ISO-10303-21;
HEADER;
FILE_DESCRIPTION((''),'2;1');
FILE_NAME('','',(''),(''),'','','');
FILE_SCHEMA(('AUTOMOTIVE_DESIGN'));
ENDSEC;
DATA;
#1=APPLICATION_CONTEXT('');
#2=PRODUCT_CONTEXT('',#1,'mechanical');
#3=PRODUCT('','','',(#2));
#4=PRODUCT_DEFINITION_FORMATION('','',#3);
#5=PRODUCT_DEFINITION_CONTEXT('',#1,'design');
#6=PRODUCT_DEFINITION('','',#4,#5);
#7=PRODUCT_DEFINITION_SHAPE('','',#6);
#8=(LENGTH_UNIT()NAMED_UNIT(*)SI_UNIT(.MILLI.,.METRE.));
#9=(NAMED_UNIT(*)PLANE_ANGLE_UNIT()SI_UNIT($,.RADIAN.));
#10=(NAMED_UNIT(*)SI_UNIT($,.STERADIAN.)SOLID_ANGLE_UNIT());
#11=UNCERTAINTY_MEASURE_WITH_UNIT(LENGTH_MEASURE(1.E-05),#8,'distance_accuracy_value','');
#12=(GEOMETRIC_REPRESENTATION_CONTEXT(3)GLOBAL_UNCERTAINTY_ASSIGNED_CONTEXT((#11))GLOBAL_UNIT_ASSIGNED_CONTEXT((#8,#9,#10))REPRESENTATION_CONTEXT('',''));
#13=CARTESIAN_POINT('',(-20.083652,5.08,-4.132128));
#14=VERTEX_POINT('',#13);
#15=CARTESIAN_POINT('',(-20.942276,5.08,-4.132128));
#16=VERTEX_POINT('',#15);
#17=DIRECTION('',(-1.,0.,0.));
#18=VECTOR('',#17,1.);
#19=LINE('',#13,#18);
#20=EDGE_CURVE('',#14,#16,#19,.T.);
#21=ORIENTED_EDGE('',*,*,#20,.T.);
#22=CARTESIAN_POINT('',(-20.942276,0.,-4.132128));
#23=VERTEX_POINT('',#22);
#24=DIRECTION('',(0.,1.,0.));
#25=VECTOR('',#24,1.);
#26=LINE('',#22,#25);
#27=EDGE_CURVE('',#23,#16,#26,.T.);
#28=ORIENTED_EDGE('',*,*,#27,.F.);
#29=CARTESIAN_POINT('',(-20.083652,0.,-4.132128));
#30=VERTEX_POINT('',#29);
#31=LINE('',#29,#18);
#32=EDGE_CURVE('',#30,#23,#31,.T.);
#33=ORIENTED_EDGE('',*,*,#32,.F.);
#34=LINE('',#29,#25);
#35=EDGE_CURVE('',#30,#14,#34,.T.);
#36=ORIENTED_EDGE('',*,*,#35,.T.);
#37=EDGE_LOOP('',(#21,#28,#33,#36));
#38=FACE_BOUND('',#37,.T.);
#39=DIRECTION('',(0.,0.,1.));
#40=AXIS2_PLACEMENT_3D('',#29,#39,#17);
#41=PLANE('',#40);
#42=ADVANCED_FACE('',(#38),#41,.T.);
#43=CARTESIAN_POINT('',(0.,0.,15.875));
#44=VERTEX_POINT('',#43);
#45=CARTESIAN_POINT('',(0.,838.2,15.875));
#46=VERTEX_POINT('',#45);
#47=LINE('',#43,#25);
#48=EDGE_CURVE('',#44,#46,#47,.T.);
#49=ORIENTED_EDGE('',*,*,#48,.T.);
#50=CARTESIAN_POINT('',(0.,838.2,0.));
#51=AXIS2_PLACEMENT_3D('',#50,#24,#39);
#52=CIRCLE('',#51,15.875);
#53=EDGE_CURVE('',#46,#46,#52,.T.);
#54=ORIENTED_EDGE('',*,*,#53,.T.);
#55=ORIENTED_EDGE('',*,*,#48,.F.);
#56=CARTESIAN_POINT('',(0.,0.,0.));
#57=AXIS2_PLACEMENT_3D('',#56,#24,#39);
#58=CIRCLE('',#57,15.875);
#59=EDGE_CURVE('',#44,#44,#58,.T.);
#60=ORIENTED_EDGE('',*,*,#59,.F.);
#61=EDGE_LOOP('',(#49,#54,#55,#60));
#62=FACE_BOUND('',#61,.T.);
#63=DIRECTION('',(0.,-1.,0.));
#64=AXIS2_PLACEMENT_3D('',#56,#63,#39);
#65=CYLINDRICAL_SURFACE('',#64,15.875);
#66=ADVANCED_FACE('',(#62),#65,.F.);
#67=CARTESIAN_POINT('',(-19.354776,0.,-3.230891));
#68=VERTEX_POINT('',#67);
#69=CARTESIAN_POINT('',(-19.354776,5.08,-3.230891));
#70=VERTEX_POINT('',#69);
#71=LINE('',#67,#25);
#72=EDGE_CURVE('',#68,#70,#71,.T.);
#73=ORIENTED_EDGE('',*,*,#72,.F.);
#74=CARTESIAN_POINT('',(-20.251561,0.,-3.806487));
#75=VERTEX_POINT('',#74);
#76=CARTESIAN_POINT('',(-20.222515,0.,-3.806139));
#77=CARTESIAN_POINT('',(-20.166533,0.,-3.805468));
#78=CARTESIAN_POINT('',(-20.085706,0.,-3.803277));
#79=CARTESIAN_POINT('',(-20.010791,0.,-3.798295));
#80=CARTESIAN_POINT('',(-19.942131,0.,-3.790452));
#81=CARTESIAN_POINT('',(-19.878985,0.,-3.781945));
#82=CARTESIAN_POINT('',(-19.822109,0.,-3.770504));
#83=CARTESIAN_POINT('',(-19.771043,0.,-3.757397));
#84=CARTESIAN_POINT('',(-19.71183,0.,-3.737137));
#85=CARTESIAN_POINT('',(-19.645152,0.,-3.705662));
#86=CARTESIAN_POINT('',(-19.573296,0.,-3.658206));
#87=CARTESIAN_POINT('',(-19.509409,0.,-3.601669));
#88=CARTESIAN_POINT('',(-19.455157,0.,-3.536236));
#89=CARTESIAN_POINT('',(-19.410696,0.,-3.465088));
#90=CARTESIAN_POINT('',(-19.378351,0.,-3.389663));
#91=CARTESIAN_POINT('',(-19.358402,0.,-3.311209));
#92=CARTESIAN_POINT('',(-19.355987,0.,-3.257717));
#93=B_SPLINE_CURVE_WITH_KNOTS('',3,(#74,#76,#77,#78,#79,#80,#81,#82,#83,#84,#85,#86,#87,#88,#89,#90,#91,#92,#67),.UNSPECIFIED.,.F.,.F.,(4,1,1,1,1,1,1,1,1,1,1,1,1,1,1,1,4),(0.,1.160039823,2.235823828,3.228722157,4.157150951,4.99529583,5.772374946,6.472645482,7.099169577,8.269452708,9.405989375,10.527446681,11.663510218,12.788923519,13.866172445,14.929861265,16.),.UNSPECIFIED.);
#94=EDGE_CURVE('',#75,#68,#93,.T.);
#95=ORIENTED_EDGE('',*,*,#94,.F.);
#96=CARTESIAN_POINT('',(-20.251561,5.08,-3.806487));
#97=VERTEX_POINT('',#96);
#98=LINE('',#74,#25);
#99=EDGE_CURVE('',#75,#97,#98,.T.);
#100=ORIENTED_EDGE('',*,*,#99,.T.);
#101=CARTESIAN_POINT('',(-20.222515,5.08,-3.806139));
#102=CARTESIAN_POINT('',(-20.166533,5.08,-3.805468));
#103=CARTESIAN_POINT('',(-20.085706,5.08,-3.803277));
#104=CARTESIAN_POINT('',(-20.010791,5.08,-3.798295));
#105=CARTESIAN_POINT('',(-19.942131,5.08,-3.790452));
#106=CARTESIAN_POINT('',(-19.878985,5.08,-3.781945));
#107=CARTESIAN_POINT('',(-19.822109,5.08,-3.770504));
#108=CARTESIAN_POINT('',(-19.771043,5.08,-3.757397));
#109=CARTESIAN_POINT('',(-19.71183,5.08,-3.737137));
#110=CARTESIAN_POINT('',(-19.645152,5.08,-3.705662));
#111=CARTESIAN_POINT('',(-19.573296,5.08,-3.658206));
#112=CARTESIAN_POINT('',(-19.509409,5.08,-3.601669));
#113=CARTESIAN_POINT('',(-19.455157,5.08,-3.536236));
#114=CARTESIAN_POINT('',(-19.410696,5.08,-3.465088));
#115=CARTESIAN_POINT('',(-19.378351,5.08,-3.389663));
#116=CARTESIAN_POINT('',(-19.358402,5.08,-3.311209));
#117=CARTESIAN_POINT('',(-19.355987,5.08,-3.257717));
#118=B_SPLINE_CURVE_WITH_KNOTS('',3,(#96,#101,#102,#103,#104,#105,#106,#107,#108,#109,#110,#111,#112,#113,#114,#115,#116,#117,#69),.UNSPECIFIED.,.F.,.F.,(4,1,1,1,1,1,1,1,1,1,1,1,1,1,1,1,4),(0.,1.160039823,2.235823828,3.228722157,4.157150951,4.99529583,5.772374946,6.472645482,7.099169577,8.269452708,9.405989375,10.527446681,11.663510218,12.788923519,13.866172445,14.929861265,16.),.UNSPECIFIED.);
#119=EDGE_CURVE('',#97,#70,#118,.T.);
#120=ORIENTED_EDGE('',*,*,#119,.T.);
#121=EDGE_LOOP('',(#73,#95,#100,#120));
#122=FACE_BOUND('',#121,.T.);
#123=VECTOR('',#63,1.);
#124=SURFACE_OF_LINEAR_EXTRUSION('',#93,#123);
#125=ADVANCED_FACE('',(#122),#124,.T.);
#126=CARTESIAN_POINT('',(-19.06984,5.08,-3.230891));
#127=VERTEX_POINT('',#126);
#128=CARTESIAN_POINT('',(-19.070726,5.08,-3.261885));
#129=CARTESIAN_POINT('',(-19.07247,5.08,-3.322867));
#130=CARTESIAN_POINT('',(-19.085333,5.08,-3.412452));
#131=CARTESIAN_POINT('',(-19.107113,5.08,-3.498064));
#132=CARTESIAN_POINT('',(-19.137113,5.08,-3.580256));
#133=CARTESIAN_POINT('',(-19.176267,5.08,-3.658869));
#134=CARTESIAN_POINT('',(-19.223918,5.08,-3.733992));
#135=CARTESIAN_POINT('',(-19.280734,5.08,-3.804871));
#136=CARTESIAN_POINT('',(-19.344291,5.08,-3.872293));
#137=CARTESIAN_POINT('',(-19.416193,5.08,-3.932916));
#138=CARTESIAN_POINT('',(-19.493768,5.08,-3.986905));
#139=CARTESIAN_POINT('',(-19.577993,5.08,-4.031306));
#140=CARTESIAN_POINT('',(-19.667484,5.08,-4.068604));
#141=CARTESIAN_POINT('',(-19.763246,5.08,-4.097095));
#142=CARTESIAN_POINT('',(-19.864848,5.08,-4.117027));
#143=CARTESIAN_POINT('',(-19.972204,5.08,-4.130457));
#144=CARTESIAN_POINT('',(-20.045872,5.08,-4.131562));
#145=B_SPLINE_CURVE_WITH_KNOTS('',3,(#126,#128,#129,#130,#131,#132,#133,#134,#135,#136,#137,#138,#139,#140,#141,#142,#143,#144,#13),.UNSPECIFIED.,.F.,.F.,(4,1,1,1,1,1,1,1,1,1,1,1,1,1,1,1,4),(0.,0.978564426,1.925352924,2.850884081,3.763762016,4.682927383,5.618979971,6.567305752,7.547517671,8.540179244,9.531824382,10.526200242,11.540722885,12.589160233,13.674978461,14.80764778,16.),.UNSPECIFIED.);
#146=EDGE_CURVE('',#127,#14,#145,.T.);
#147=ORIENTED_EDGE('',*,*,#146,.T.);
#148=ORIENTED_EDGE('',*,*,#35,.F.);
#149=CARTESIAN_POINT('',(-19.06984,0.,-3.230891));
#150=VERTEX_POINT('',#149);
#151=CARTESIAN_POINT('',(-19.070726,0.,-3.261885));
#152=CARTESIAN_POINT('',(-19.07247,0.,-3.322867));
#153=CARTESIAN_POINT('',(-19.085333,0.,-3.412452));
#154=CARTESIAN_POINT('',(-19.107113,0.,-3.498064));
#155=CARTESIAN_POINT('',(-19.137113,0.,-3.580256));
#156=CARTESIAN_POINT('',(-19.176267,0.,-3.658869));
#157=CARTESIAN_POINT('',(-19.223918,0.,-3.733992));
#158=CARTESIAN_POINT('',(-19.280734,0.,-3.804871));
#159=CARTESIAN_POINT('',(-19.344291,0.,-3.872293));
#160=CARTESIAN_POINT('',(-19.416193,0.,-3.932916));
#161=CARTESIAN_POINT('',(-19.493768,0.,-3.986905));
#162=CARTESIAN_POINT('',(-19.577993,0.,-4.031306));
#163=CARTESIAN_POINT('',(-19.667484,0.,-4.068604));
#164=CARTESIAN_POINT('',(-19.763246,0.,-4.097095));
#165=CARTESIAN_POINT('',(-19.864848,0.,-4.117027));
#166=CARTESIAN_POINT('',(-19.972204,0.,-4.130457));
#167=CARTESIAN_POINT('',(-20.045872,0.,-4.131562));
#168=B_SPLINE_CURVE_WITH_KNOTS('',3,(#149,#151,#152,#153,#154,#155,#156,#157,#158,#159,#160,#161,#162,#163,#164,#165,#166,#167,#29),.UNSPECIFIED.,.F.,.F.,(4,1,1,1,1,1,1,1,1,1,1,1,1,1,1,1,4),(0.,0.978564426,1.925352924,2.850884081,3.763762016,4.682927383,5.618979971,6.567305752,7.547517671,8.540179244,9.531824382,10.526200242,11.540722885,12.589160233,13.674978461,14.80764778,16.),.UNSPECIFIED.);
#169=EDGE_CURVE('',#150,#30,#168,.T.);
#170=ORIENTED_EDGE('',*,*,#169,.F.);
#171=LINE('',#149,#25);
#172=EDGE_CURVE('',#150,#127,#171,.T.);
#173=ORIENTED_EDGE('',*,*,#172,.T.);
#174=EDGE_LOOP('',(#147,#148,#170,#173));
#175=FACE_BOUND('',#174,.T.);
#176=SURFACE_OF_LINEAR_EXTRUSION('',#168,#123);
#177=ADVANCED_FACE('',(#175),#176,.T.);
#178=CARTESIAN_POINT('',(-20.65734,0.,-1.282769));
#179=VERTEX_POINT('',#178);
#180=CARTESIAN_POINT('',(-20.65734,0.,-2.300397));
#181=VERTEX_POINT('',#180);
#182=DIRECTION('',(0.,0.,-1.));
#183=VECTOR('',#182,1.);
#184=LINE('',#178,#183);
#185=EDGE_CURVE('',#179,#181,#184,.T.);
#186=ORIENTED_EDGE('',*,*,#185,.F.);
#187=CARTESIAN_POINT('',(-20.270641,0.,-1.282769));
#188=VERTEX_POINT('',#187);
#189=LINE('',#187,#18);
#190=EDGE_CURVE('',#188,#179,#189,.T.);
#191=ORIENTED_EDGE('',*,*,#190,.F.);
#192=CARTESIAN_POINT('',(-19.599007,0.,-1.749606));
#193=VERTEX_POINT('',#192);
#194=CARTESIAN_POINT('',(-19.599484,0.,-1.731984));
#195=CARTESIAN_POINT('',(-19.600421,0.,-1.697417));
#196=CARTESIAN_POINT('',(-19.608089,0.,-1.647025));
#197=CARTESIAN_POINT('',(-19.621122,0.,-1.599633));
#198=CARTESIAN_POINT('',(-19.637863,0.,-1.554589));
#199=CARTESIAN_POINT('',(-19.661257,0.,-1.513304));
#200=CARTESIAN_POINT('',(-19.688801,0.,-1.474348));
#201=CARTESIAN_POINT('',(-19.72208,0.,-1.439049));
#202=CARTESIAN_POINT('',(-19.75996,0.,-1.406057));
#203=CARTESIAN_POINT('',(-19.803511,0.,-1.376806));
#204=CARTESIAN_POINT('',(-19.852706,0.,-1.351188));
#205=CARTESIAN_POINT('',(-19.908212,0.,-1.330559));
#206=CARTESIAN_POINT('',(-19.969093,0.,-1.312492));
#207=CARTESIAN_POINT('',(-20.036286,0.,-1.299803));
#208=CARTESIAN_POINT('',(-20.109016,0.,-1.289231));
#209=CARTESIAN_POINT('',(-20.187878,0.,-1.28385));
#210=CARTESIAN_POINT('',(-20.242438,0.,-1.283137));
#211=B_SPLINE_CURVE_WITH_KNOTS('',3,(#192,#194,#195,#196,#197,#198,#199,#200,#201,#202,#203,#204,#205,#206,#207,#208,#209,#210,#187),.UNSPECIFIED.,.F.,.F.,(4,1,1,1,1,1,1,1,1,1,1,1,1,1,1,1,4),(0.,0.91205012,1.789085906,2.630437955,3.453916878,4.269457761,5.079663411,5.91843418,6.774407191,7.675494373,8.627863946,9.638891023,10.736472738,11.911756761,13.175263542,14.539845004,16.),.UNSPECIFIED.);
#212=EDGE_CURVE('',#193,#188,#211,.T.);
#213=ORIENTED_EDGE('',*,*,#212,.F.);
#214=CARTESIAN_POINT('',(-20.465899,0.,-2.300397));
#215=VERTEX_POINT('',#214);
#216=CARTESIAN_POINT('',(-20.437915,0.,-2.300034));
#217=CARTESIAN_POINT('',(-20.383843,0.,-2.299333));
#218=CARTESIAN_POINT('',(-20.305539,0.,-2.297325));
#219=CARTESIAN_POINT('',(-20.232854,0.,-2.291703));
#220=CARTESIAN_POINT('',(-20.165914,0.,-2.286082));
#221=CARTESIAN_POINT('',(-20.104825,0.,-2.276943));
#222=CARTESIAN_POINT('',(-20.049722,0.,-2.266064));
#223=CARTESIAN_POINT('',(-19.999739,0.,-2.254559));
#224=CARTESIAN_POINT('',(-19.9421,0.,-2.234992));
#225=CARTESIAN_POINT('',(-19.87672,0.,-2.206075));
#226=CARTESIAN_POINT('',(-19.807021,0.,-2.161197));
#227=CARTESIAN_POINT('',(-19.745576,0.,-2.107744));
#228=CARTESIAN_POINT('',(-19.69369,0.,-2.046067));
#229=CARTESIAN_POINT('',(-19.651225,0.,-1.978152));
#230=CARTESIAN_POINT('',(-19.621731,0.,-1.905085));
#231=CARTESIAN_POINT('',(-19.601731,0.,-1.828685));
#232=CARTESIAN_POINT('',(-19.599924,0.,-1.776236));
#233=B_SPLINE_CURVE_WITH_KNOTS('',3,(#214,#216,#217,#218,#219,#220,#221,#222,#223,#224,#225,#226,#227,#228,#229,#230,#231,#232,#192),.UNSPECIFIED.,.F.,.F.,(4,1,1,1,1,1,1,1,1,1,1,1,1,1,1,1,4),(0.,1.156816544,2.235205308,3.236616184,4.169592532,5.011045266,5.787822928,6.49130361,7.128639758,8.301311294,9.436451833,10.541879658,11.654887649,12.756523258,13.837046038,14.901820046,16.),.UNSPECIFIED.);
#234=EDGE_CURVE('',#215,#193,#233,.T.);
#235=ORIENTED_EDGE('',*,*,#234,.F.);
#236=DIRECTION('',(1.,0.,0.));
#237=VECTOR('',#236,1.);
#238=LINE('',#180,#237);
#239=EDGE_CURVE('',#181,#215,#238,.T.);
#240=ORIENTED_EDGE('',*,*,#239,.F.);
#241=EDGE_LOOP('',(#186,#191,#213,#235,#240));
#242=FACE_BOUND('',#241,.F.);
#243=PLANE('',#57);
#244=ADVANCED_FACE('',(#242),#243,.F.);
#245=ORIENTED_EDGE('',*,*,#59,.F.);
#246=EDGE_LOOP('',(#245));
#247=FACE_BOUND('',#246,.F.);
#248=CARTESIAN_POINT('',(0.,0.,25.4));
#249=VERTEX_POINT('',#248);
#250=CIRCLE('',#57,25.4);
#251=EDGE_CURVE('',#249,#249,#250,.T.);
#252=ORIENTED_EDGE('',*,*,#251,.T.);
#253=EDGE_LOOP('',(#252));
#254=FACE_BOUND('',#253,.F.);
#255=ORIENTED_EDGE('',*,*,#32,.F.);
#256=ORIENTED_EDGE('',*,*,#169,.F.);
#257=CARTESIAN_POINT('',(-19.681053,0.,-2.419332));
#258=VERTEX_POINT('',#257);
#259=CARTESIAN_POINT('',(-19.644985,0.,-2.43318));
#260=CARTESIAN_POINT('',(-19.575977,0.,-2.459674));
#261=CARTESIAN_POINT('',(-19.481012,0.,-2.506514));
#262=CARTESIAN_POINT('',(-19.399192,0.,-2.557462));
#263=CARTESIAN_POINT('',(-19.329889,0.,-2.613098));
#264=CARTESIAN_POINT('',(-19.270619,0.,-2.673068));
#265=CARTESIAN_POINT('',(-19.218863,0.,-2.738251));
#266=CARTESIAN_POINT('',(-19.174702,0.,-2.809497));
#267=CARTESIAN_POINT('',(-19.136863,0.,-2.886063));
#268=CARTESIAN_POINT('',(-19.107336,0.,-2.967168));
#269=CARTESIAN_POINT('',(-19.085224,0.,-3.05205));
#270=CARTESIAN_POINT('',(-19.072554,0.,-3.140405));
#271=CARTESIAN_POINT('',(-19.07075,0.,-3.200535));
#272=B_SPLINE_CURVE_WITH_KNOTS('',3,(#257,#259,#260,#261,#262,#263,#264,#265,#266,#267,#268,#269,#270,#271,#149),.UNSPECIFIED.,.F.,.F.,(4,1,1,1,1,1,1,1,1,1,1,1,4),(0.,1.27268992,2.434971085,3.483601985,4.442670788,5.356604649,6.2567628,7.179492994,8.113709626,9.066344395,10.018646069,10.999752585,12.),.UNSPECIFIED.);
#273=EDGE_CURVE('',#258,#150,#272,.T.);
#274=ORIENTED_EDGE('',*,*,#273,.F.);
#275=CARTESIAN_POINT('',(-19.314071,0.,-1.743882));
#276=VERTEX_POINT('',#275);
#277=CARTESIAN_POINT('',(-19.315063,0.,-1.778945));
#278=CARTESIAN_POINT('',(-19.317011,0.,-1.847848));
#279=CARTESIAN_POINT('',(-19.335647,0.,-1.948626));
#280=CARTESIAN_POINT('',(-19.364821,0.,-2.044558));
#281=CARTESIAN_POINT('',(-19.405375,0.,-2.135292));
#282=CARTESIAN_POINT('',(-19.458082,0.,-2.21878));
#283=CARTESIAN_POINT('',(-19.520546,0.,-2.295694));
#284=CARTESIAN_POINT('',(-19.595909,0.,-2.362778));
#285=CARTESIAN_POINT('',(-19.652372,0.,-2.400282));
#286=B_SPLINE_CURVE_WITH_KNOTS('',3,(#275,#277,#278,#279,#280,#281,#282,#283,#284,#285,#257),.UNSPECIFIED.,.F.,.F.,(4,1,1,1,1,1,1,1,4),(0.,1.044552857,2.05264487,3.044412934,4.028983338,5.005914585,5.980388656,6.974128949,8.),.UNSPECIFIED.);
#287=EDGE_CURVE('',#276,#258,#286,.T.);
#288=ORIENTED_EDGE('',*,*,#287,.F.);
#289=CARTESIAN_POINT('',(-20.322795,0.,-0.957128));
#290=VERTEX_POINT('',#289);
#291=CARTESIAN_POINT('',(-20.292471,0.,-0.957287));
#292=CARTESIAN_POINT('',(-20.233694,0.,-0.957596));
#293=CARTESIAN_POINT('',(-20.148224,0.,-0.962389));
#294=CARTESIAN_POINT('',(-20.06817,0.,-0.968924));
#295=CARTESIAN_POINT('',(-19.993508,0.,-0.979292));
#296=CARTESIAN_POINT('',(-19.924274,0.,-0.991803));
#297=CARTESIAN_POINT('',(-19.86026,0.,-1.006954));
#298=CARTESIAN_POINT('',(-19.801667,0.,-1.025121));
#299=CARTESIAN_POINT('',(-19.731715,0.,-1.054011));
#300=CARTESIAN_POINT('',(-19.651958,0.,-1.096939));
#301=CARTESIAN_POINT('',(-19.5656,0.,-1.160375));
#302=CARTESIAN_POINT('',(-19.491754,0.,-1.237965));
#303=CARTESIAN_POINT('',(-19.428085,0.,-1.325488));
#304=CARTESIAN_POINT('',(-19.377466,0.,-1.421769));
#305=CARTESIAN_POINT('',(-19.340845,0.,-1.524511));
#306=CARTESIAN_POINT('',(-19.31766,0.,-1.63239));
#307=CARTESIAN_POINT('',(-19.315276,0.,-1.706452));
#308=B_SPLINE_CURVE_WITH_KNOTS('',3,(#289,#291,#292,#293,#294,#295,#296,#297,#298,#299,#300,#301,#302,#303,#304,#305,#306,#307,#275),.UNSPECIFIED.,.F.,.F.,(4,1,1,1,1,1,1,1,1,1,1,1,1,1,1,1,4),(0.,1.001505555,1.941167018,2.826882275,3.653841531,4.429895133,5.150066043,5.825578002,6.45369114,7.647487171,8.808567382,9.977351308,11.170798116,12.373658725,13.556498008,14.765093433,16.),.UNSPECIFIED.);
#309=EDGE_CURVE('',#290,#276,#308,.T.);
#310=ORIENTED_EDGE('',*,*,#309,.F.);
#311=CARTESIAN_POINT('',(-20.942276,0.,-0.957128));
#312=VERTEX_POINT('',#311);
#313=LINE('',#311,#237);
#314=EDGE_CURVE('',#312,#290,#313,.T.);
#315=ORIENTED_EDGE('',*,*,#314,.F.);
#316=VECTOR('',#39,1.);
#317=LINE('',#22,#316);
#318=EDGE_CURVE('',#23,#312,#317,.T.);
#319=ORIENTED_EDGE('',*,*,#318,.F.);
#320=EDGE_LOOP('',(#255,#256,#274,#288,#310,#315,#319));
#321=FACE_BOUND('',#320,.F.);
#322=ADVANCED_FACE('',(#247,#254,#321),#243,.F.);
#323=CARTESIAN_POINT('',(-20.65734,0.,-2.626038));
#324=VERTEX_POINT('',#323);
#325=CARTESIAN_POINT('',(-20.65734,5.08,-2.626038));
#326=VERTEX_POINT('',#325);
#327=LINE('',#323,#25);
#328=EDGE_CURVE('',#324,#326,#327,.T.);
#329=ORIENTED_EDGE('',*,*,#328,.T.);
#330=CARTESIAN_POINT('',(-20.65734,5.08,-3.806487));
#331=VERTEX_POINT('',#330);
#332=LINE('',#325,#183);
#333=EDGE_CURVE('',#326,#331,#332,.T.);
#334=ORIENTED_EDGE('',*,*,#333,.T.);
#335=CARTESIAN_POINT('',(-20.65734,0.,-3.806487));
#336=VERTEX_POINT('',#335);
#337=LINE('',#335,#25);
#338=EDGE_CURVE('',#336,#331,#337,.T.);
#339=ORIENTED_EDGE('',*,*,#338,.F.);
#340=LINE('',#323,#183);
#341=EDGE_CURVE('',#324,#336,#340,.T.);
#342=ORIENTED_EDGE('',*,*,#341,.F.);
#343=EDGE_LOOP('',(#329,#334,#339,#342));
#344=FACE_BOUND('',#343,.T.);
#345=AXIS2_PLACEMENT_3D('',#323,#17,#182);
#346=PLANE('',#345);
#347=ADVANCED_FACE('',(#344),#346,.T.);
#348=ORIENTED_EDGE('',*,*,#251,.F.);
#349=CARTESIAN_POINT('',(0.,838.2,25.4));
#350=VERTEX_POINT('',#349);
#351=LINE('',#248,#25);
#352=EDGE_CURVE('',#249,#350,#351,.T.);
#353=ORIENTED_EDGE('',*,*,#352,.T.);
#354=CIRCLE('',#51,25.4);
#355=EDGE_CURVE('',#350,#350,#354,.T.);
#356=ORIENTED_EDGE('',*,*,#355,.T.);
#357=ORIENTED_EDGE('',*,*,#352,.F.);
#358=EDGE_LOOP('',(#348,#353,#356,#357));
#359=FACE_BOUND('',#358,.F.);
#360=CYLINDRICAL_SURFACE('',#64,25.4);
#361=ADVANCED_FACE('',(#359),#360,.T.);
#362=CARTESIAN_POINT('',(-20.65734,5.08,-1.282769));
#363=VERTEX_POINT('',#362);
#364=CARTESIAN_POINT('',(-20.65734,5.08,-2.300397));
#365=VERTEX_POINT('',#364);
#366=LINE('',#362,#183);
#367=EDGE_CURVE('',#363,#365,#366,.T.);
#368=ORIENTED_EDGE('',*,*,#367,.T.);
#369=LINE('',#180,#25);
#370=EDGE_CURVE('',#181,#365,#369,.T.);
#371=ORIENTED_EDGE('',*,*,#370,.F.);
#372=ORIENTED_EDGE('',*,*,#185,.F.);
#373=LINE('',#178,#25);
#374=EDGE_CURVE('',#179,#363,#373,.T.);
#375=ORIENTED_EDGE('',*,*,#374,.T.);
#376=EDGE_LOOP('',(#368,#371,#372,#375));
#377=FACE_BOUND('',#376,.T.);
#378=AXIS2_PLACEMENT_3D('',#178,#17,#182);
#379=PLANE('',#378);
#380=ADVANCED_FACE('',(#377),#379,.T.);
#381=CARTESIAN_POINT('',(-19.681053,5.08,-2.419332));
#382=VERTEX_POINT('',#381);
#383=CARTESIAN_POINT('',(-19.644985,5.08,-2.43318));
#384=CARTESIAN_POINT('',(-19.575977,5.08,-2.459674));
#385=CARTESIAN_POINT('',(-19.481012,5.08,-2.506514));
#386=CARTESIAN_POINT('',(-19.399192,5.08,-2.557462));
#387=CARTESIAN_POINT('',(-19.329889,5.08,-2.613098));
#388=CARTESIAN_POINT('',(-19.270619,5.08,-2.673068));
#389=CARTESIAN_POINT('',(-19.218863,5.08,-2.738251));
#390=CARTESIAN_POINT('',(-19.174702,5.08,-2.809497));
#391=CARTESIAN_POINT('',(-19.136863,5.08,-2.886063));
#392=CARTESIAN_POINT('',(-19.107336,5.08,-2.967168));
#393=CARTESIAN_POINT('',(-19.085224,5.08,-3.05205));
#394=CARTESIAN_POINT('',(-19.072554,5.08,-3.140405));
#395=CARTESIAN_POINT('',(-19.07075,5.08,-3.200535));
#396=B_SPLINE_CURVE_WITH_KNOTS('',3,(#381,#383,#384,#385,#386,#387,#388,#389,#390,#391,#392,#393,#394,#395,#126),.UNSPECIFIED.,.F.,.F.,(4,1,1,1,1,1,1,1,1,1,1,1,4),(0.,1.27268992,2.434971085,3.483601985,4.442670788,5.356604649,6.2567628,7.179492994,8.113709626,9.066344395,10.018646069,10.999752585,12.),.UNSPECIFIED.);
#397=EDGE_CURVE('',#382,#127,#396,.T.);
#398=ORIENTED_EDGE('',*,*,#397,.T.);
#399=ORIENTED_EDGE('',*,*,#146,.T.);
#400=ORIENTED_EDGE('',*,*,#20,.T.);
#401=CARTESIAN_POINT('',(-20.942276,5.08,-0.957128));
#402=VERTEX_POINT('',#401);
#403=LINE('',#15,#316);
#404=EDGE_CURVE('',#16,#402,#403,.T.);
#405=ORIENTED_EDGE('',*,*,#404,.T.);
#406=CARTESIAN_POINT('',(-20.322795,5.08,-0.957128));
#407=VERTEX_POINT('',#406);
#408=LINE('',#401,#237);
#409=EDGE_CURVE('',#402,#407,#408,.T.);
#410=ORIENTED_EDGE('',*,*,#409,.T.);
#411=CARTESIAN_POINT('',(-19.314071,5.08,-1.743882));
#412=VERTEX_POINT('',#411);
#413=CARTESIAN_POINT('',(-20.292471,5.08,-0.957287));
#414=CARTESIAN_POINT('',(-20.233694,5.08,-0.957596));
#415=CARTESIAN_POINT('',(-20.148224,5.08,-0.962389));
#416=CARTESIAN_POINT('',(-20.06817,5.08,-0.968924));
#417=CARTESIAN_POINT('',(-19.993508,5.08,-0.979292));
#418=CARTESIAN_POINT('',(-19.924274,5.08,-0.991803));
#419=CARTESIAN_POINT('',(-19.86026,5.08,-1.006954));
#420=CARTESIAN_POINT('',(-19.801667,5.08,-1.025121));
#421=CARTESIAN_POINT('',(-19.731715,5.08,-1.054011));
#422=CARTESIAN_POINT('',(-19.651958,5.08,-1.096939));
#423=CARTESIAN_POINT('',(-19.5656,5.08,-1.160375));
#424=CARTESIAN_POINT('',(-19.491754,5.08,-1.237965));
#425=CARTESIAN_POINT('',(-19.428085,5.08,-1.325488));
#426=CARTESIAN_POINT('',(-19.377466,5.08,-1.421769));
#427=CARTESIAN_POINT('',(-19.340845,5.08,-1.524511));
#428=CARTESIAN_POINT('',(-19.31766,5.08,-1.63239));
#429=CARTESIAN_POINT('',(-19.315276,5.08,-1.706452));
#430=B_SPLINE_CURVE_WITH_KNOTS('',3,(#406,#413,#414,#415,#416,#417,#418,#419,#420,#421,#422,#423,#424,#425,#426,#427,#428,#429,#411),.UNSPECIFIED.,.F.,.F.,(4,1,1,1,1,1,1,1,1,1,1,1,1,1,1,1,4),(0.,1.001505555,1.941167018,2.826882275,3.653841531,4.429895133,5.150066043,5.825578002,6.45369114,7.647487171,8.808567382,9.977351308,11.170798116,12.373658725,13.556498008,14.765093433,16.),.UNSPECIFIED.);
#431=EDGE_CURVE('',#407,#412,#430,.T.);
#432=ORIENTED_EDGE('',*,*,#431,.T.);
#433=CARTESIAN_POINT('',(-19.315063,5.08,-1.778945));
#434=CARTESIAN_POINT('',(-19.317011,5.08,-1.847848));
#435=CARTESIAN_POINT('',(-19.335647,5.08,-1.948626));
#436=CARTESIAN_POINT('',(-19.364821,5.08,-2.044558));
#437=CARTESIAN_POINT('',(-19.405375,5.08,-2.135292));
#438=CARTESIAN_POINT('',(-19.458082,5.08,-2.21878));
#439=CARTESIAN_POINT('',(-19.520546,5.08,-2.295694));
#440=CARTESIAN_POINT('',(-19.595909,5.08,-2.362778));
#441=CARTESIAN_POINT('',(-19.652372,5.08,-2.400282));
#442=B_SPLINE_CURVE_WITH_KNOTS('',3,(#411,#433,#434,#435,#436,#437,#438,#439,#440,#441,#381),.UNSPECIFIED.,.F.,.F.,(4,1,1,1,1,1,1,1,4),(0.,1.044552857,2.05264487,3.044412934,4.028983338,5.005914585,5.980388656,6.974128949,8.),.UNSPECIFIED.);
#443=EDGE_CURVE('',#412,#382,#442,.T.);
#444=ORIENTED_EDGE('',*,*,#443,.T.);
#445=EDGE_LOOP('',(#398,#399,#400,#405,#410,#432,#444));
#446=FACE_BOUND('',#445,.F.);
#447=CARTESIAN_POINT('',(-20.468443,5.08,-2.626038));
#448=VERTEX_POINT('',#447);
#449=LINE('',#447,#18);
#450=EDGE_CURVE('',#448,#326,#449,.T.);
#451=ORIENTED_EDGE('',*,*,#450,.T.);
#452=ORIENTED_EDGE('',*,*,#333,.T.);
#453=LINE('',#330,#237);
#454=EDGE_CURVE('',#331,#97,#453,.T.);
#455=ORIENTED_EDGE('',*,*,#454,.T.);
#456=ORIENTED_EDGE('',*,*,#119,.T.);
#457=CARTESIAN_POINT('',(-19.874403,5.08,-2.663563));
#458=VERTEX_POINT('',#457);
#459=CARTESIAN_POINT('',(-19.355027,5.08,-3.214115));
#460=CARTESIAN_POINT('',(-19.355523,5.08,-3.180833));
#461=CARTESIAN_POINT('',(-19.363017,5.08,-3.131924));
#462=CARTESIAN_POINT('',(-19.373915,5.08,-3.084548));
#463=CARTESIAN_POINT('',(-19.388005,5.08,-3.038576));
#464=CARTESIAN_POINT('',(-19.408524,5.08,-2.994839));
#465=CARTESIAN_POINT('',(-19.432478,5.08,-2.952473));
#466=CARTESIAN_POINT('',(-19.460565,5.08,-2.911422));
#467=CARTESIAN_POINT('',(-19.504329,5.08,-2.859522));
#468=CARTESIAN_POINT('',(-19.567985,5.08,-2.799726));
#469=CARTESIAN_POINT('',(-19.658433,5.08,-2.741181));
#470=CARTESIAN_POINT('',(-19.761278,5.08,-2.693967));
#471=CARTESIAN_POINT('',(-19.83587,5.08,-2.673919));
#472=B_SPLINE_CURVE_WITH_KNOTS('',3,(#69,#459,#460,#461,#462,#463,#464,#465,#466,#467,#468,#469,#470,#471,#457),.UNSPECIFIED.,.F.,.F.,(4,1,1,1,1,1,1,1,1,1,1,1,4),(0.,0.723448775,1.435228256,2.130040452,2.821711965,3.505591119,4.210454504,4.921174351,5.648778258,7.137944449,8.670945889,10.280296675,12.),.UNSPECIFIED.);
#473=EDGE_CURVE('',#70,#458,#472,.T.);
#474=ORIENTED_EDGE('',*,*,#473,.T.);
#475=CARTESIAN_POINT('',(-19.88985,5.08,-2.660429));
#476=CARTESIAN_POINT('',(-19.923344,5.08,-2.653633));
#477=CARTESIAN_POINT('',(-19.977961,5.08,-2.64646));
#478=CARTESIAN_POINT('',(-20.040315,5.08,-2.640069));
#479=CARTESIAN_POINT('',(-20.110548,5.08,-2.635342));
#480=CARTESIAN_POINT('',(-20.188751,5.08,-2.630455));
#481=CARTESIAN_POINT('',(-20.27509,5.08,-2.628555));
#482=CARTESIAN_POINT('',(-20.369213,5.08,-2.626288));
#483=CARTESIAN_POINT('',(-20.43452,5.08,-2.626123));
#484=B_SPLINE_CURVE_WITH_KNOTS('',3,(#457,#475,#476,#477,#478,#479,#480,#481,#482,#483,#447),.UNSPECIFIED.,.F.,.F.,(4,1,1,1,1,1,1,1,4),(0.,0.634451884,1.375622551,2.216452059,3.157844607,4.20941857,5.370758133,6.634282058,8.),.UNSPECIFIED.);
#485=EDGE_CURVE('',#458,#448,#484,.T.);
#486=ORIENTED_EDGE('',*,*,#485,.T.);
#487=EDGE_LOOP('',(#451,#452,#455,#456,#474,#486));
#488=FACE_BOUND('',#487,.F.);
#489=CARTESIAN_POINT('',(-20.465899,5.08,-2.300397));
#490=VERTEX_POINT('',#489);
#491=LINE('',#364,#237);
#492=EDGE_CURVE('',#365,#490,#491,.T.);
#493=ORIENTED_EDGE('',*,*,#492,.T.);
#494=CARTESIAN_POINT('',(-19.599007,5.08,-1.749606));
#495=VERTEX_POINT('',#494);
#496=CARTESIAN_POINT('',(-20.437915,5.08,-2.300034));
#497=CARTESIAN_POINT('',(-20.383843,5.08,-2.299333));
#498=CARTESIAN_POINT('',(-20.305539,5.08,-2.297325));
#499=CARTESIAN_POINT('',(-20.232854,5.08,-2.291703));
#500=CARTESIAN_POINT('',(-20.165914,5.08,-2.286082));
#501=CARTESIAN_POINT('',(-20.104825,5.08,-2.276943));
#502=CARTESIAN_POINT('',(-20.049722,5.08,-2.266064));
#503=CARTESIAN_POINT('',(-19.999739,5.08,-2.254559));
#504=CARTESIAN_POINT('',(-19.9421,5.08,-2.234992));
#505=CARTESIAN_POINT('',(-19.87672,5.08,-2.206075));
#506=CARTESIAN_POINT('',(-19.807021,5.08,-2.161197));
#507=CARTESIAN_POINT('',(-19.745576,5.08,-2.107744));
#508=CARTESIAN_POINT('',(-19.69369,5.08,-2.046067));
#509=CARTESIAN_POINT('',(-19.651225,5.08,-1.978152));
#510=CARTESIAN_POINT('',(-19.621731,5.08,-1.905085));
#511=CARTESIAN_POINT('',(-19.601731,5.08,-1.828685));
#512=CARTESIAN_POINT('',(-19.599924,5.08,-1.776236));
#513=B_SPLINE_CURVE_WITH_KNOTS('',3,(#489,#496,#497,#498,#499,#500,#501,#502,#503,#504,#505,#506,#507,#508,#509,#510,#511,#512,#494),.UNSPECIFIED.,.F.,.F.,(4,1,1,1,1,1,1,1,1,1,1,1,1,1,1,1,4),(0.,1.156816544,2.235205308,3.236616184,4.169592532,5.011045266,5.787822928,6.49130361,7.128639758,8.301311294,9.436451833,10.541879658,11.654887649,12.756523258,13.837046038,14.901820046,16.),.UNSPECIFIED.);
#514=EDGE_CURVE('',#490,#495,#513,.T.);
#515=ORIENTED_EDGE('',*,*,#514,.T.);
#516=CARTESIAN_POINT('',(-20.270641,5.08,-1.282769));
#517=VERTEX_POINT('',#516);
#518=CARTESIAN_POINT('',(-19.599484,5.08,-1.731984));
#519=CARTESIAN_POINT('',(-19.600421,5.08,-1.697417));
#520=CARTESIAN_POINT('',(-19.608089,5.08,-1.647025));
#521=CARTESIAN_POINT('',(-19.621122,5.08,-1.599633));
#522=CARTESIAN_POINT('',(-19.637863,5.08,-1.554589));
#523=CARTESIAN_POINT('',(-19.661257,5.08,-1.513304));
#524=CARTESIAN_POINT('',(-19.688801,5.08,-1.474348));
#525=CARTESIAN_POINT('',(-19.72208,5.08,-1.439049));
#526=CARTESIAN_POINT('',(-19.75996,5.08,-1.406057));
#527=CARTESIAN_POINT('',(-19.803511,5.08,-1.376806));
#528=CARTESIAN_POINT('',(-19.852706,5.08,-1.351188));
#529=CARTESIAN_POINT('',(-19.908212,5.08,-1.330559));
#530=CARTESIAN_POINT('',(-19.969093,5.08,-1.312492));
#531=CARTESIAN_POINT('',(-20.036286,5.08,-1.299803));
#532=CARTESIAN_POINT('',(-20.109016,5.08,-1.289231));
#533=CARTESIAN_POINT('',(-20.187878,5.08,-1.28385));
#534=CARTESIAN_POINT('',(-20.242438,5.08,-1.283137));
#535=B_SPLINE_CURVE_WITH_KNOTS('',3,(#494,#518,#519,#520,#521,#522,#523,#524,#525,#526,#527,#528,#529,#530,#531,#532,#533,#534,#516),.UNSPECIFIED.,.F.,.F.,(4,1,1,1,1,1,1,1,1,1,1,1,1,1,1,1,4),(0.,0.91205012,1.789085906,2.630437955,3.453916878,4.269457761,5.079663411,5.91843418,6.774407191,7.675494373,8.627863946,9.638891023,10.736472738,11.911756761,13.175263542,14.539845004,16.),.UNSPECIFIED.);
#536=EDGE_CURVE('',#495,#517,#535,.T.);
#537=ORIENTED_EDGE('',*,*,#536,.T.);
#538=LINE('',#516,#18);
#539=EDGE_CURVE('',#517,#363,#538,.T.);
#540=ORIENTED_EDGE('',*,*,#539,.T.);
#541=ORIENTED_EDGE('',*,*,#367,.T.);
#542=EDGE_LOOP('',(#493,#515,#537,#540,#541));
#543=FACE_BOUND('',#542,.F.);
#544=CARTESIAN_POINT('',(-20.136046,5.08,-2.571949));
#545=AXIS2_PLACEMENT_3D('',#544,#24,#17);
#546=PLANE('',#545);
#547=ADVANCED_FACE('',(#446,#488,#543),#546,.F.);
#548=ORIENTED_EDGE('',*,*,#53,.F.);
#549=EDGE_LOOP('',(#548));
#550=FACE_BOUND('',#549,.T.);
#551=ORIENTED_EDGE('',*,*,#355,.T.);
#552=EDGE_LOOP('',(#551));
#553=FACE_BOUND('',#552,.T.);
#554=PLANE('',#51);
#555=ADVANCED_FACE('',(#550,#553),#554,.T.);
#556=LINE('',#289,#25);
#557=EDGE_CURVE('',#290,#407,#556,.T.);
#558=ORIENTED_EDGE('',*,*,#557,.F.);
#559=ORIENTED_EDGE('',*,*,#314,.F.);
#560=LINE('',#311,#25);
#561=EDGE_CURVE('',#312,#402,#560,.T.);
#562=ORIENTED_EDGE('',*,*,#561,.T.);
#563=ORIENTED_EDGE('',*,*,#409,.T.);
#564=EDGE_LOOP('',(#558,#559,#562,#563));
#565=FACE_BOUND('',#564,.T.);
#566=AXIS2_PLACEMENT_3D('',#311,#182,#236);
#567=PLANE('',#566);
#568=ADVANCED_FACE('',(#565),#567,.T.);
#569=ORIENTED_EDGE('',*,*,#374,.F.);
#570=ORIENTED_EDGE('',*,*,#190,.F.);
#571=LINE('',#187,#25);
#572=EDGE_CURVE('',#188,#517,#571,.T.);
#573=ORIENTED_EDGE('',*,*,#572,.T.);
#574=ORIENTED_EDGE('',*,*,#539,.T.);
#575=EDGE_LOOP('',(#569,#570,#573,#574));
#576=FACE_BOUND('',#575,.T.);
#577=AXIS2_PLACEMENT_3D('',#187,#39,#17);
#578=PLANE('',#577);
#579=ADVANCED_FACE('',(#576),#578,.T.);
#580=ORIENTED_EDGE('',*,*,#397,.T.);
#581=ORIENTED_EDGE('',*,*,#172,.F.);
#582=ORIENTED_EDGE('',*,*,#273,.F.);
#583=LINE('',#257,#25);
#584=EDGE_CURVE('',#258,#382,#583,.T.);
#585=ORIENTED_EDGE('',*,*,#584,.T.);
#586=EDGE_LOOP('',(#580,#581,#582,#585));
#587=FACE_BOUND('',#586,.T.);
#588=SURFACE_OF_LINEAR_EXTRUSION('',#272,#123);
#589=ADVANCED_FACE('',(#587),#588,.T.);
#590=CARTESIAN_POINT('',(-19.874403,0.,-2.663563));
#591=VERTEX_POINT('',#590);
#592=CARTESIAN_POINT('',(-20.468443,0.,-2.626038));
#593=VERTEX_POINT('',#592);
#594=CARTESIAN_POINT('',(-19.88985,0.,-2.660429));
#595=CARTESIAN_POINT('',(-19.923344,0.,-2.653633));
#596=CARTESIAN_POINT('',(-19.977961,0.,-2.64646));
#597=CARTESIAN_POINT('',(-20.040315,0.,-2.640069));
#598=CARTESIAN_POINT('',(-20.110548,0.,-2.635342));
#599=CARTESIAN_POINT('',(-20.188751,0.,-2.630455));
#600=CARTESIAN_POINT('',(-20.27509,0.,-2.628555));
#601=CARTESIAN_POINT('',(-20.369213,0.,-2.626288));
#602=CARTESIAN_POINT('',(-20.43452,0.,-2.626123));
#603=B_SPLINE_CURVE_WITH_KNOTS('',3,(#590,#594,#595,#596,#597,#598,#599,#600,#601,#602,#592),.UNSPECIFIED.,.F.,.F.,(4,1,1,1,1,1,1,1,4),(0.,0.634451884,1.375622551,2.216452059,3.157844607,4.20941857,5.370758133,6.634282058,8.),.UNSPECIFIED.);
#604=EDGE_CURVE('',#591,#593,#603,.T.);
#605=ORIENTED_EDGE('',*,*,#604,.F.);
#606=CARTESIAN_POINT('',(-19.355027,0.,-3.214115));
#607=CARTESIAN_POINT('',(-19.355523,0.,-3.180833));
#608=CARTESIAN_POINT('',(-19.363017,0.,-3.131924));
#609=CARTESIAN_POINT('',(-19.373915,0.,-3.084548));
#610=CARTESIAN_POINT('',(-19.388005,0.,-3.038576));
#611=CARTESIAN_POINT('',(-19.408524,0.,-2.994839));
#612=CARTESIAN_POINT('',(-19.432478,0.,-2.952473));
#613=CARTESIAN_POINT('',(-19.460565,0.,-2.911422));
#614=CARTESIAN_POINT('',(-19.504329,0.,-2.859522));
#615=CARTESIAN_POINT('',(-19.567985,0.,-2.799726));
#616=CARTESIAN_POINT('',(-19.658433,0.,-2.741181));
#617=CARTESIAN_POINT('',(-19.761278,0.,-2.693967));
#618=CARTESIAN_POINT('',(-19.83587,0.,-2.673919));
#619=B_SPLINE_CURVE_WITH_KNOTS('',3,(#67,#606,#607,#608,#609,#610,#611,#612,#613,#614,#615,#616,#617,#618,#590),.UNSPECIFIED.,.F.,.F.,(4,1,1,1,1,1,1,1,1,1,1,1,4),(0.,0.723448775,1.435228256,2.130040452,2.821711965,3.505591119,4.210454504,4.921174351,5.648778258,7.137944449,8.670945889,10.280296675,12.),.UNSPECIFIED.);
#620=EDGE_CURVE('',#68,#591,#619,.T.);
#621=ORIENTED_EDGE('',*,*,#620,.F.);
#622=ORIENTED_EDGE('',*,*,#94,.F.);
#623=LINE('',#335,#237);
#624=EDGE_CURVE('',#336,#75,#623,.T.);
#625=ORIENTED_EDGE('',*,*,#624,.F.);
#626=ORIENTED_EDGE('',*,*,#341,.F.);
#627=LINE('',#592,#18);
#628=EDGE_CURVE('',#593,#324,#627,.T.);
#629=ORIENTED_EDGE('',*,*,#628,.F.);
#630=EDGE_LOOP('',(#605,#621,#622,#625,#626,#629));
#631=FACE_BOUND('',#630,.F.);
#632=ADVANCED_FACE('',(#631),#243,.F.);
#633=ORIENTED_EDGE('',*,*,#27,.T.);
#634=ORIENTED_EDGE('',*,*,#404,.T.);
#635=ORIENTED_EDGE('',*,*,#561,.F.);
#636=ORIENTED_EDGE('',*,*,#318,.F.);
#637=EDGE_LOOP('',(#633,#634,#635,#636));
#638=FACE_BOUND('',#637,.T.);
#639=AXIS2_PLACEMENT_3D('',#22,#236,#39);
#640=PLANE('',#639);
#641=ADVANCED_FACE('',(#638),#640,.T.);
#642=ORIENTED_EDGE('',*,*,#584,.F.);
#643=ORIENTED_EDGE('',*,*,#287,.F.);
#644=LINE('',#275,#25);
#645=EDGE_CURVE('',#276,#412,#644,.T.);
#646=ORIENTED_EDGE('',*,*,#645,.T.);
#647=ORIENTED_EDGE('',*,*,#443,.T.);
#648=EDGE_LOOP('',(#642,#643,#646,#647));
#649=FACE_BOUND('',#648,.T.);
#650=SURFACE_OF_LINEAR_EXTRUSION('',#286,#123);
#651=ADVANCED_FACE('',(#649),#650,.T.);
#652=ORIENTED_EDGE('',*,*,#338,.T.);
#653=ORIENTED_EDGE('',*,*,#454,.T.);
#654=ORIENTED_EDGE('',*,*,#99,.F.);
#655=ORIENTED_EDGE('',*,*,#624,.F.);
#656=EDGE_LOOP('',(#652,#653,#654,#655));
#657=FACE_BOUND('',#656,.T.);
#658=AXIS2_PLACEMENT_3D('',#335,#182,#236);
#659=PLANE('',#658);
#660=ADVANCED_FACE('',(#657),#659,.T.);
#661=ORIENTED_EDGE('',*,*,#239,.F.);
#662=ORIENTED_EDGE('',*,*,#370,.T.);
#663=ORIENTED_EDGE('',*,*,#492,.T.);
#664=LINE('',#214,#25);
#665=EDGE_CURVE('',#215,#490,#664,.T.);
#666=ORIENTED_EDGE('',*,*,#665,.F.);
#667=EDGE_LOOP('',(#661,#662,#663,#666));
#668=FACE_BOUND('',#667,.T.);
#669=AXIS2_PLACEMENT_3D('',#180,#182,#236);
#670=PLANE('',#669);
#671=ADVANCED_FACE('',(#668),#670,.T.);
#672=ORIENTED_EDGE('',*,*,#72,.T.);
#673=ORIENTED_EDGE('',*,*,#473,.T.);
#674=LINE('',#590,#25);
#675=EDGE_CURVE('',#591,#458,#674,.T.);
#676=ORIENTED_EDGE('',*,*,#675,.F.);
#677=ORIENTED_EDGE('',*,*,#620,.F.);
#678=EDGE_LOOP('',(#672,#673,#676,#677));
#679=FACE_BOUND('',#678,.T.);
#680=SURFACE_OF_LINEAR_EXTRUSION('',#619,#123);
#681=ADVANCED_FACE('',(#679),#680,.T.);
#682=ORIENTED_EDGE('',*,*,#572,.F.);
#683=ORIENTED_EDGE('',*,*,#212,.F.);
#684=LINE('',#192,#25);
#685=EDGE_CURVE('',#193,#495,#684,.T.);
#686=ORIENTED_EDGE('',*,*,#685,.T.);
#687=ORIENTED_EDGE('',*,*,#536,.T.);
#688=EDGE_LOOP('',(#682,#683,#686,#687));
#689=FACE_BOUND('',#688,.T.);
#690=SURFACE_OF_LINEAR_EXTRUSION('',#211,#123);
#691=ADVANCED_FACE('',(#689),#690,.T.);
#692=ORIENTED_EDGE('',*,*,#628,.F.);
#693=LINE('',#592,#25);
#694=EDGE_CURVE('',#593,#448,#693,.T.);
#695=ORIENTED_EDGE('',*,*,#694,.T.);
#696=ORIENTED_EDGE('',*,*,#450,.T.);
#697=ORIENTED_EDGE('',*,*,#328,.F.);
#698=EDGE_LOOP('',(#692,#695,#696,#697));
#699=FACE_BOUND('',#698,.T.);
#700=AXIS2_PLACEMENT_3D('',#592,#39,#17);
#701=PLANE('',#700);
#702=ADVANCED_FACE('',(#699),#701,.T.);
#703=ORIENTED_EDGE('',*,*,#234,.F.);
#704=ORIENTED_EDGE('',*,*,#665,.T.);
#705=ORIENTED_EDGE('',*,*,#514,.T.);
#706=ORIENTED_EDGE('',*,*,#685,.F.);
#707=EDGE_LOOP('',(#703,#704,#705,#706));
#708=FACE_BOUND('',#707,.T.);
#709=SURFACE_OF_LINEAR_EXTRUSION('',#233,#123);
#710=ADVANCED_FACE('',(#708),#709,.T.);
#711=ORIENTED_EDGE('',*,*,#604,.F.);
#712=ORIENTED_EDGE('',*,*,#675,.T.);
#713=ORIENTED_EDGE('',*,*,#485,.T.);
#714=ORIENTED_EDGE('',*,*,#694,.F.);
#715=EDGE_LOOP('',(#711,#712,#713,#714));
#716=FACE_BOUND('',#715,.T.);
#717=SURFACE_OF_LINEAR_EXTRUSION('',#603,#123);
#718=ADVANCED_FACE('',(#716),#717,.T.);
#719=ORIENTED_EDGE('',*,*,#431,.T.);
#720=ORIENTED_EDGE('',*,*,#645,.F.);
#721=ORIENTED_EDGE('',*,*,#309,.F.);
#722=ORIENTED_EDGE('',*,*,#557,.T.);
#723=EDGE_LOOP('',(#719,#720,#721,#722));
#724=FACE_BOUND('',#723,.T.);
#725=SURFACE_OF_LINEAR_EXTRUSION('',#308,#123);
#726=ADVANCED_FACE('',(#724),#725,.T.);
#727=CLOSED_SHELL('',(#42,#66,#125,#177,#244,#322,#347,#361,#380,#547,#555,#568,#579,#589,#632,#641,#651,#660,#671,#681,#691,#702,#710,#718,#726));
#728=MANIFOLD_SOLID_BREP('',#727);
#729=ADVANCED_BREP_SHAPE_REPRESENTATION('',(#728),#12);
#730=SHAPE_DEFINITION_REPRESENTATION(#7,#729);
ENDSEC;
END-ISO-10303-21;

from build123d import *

# Parameters (mm, degrees)
SKETCH1_R           = 25.4
SKETCH1_R_2         = 15.875
BOSS_EXTRUDE1_DEPTH = 838.2
CUT_EXTRUDE3_DEPTH  = 5.08


with BuildPart() as part:
    # Sketch1 → Boss-Extrude1 (new body)
    with BuildSketch(Plane(origin=(0, 0, 0), x_dir=(1, 0, 0), z_dir=(0, 1, 0))):
        with Locations(Location((0, 0, 0), (0, 0, 270))):
            Circle(SKETCH1_R)
        with Locations(Location((0, 0, 0), (0, 0, 270))):
            Circle(SKETCH1_R_2, mode=Mode.SUBTRACT)
    extrude(amount=BOSS_EXTRUDE1_DEPTH)

    # Sketch5 → Cut-Extrude3 (cut)
    with BuildSketch(Plane.XZ):
        with BuildLine():
            Line((-20.9422761, -0.95712788), (-20.322794931, -0.95712788))
            add(Edge.make_bspline(
                [(-20.322794931, -0.95712788), (-20.292470525, -0.957287311), (-20.233694281, -0.957596328), (-20.148223787, -0.962388882), (-20.068169509, -0.96892364), (-19.99350823, -0.979292367), (-19.92427445, -0.991803479), (-19.860259522, -1.006954412), (-19.801667008, -1.025121412), (-19.73171474, -1.054010538), (-19.651958141, -1.096939412), (-19.565599599, -1.160374611), (-19.491754325, -1.237964774), (-19.428085308, -1.325488325), (-19.377465721, -1.421768633), (-19.340845001, -1.524510897), (-19.317660357, -1.632389906), (-19.315275992, -1.706451931), (-19.314070972, -1.743881687)],
                knots=[0, 0, 0, 0, 1.001505555, 1.941167018, 2.826882275, 3.653841531, 4.429895133, 5.150066043, 5.825578002, 6.45369114, 7.647487171, 8.808567382, 9.977351308, 11.170798116, 12.373658725, 13.556498008, 14.765093433, 16, 16, 16, 16], degree=3))
            add(Edge.make_bspline(
                [(-19.314070972, -1.743881687), (-19.315062678, -1.778945076), (-19.317011472, -1.847847944), (-19.335646689, -1.948626172), (-19.36482101, -2.044557634), (-19.405375057, -2.135292227), (-19.458081868, -2.218779862), (-19.5205462, -2.295694024), (-19.595908728, -2.362778198), (-19.652372239, -2.400282116), (-19.681053144, -2.419332408)],
                knots=[0, 0, 0, 0, 1.044552857, 2.05264487, 3.044412934, 4.028983338, 5.005914585, 5.980388656, 6.974128949, 8, 8, 8, 8], degree=3))
            add(Edge.make_bspline(
                [(-19.681053144, -2.419332408), (-19.644984756, -2.433179942), (-19.575976995, -2.459673707), (-19.481011827, -2.506514449), (-19.399192217, -2.557461506), (-19.329889092, -2.613098256), (-19.270618505, -2.673068392), (-19.218863336, -2.738251245), (-19.174702376, -2.809497119), (-19.136862795, -2.886063183), (-19.107336423, -2.967167622), (-19.085223996, -3.052049683), (-19.072553524, -3.140404994), (-19.07075045, -3.200535302), (-19.069840203, -3.230890901)],
                knots=[0, 0, 0, 0, 1.27268992, 2.434971085, 3.483601985, 4.442670788, 5.356604649, 6.2567628, 7.179492994, 8.113709626, 9.066344395, 10.018646069, 10.999752585, 12, 12, 12, 12], degree=3))
            add(Edge.make_bspline(
                [(-19.069840203, -3.230890901), (-19.070726342, -3.261885135), (-19.072469845, -3.322867159), (-19.085333105, -3.412452174), (-19.107112795, -3.498063733), (-19.137113049, -3.580255577), (-19.176267435, -3.658868699), (-19.223917802, -3.73399216), (-19.280733578, -3.80487116), (-19.344290609, -3.872293304), (-19.416192698, -3.932915654), (-19.493767704, -3.986904902), (-19.57799258, -4.031305972), (-19.667484032, -4.068604078), (-19.763245947, -4.097094893), (-19.864848313, -4.117027157), (-19.972203501, -4.13045744), (-20.045872346, -4.131561619), (-20.083652302, -4.13212788)],
                knots=[0, 0, 0, 0, 0.978564426, 1.925352924, 2.850884081, 3.763762016, 4.682927383, 5.618979971, 6.567305752, 7.547517671, 8.540179244, 9.531824382, 10.526200242, 11.540722885, 12.589160233, 13.674978461, 14.80764778, 16, 16, 16, 16], degree=3))
            Line((-20.083652302, -4.13212788), (-20.9422761, -4.13212788))
            Line((-20.9422761, -4.13212788), (-20.9422761, -0.95712788))
        make_face()
        with BuildLine():
            Line((-20.657340203, -1.282768906), (-20.657340203, -2.300397111))
            Line((-20.657340203, -2.300397111), (-20.465898897, -2.300397111))
            add(Edge.make_bspline(
                [(-20.465898897, -2.300397111), (-20.437914633, -2.300034324), (-20.383843331, -2.299333345), (-20.305538853, -2.297325369), (-20.232854015, -2.291702858), (-20.165914281, -2.286081963), (-20.104825064, -2.276942873), (-20.049721704, -2.266064304), (-19.999739405, -2.254559097), (-19.94209996, -2.234992491), (-19.8767195, -2.206074886), (-19.807020898, -2.161196863), (-19.745576058, -2.107744057), (-19.693690038, -2.046066542), (-19.651225347, -1.978152216), (-19.621730762, -1.905084689), (-19.601730726, -1.828684998), (-19.599924123, -1.776235583), (-19.59900687, -1.749605845)],
                knots=[0, 0, 0, 0, 1.156816544, 2.235205308, 3.236616184, 4.169592532, 5.011045266, 5.787822928, 6.49130361, 7.128639758, 8.301311294, 9.436451833, 10.541879658, 11.654887649, 12.756523258, 13.837046038, 14.901820046, 16, 16, 16, 16], degree=3))
            add(Edge.make_bspline(
                [(-19.59900687, -1.749605845), (-19.59948419, -1.731983895), (-19.600420507, -1.697416516), (-19.60808886, -1.647025317), (-19.621122302, -1.59963277), (-19.637862983, -1.554589398), (-19.661257007, -1.513303648), (-19.688801006, -1.474348035), (-19.722080168, -1.439049185), (-19.759960016, -1.406056854), (-19.803510695, -1.376806461), (-19.852706224, -1.351188054), (-19.908212189, -1.330558921), (-19.969093136, -1.312492126), (-20.036286194, -1.299802745), (-20.109015967, -1.289231458), (-20.187878176, -1.283849613), (-20.242438377, -1.283137177), (-20.270641485, -1.282768906)],
                knots=[0, 0, 0, 0, 0.91205012, 1.789085906, 2.630437955, 3.453916878, 4.269457761, 5.079663411, 5.91843418, 6.774407191, 7.675494373, 8.627863946, 9.638891023, 10.736472738, 11.911756761, 13.175263542, 14.539845004, 16, 16, 16, 16], degree=3))
            Line((-20.270641485, -1.282768906), (-20.657340203, -1.282768906))
        make_face(mode=Mode.SUBTRACT)
        with BuildLine():
            Line((-20.657340203, -2.626038137), (-20.657340203, -3.806486855))
            Line((-20.657340203, -3.806486855), (-20.251560956, -3.806486855))
            add(Edge.make_bspline(
                [(-20.251560956, -3.806486855), (-20.222515216, -3.806138741), (-20.166533382, -3.805467798), (-20.085705837, -3.803277452), (-20.010791164, -3.798295173), (-19.942131213, -3.790452152), (-19.878984588, -3.781944559), (-19.822108814, -3.770504326), (-19.771042846, -3.757397055), (-19.711829724, -3.73713677), (-19.645151542, -3.705662114), (-19.573295979, -3.658205637), (-19.509409338, -3.601669494), (-19.455157425, -3.53623645), (-19.410695642, -3.465088032), (-19.378351051, -3.389663322), (-19.358402202, -3.311208593), (-19.355987234, -3.257717361), (-19.3547761, -3.230890901)],
                knots=[0, 0, 0, 0, 1.160039823, 2.235823828, 3.228722157, 4.157150951, 4.99529583, 5.772374946, 6.472645482, 7.099169577, 8.269452708, 9.405989375, 10.527446681, 11.663510218, 12.788923519, 13.866172445, 14.929861265, 16, 16, 16, 16], degree=3))
            add(Edge.make_bspline(
                [(-19.3547761, -3.230890901), (-19.355026567, -3.2141148), (-19.355523459, -3.180833196), (-19.363017016, -3.131923846), (-19.373915313, -3.084547518), (-19.388004542, -3.038575568), (-19.40852363, -2.994839148), (-19.432478139, -2.952473254), (-19.460564553, -2.911421884), (-19.504328903, -2.859522197), (-19.567984918, -2.799726049), (-19.658433207, -2.741181315), (-19.761278077, -2.693966519), (-19.83587016, -2.673919136), (-19.874402503, -2.663563177)],
                knots=[0, 0, 0, 0, 0.723448775, 1.435228256, 2.130040452, 2.821711965, 3.505591119, 4.210454504, 4.921174351, 5.648778258, 7.137944449, 8.670945889, 10.280296675, 12, 12, 12, 12], degree=3))
            add(Edge.make_bspline(
                [(-19.874402503, -2.663563177), (-19.889850325, -2.660428922), (-19.923344391, -2.653633211), (-19.977961268, -2.646459795), (-20.04031452, -2.640068919), (-20.11054813, -2.635341655), (-20.188750958, -2.63045529), (-20.27509002, -2.628554988), (-20.369212726, -2.626287802), (-20.434520093, -2.626123488), (-20.468442967, -2.626038137)],
                knots=[0, 0, 0, 0, 0.634451884, 1.375622551, 2.216452059, 3.157844607, 4.20941857, 5.370758133, 6.634282058, 8, 8, 8, 8], degree=3))
            Line((-20.468442967, -2.626038137), (-20.657340203, -2.626038137))
        make_face(mode=Mode.SUBTRACT)
    extrude(amount=-CUT_EXTRUDE3_DEPTH, mode=Mode.SUBTRACT)


solid = part.part
